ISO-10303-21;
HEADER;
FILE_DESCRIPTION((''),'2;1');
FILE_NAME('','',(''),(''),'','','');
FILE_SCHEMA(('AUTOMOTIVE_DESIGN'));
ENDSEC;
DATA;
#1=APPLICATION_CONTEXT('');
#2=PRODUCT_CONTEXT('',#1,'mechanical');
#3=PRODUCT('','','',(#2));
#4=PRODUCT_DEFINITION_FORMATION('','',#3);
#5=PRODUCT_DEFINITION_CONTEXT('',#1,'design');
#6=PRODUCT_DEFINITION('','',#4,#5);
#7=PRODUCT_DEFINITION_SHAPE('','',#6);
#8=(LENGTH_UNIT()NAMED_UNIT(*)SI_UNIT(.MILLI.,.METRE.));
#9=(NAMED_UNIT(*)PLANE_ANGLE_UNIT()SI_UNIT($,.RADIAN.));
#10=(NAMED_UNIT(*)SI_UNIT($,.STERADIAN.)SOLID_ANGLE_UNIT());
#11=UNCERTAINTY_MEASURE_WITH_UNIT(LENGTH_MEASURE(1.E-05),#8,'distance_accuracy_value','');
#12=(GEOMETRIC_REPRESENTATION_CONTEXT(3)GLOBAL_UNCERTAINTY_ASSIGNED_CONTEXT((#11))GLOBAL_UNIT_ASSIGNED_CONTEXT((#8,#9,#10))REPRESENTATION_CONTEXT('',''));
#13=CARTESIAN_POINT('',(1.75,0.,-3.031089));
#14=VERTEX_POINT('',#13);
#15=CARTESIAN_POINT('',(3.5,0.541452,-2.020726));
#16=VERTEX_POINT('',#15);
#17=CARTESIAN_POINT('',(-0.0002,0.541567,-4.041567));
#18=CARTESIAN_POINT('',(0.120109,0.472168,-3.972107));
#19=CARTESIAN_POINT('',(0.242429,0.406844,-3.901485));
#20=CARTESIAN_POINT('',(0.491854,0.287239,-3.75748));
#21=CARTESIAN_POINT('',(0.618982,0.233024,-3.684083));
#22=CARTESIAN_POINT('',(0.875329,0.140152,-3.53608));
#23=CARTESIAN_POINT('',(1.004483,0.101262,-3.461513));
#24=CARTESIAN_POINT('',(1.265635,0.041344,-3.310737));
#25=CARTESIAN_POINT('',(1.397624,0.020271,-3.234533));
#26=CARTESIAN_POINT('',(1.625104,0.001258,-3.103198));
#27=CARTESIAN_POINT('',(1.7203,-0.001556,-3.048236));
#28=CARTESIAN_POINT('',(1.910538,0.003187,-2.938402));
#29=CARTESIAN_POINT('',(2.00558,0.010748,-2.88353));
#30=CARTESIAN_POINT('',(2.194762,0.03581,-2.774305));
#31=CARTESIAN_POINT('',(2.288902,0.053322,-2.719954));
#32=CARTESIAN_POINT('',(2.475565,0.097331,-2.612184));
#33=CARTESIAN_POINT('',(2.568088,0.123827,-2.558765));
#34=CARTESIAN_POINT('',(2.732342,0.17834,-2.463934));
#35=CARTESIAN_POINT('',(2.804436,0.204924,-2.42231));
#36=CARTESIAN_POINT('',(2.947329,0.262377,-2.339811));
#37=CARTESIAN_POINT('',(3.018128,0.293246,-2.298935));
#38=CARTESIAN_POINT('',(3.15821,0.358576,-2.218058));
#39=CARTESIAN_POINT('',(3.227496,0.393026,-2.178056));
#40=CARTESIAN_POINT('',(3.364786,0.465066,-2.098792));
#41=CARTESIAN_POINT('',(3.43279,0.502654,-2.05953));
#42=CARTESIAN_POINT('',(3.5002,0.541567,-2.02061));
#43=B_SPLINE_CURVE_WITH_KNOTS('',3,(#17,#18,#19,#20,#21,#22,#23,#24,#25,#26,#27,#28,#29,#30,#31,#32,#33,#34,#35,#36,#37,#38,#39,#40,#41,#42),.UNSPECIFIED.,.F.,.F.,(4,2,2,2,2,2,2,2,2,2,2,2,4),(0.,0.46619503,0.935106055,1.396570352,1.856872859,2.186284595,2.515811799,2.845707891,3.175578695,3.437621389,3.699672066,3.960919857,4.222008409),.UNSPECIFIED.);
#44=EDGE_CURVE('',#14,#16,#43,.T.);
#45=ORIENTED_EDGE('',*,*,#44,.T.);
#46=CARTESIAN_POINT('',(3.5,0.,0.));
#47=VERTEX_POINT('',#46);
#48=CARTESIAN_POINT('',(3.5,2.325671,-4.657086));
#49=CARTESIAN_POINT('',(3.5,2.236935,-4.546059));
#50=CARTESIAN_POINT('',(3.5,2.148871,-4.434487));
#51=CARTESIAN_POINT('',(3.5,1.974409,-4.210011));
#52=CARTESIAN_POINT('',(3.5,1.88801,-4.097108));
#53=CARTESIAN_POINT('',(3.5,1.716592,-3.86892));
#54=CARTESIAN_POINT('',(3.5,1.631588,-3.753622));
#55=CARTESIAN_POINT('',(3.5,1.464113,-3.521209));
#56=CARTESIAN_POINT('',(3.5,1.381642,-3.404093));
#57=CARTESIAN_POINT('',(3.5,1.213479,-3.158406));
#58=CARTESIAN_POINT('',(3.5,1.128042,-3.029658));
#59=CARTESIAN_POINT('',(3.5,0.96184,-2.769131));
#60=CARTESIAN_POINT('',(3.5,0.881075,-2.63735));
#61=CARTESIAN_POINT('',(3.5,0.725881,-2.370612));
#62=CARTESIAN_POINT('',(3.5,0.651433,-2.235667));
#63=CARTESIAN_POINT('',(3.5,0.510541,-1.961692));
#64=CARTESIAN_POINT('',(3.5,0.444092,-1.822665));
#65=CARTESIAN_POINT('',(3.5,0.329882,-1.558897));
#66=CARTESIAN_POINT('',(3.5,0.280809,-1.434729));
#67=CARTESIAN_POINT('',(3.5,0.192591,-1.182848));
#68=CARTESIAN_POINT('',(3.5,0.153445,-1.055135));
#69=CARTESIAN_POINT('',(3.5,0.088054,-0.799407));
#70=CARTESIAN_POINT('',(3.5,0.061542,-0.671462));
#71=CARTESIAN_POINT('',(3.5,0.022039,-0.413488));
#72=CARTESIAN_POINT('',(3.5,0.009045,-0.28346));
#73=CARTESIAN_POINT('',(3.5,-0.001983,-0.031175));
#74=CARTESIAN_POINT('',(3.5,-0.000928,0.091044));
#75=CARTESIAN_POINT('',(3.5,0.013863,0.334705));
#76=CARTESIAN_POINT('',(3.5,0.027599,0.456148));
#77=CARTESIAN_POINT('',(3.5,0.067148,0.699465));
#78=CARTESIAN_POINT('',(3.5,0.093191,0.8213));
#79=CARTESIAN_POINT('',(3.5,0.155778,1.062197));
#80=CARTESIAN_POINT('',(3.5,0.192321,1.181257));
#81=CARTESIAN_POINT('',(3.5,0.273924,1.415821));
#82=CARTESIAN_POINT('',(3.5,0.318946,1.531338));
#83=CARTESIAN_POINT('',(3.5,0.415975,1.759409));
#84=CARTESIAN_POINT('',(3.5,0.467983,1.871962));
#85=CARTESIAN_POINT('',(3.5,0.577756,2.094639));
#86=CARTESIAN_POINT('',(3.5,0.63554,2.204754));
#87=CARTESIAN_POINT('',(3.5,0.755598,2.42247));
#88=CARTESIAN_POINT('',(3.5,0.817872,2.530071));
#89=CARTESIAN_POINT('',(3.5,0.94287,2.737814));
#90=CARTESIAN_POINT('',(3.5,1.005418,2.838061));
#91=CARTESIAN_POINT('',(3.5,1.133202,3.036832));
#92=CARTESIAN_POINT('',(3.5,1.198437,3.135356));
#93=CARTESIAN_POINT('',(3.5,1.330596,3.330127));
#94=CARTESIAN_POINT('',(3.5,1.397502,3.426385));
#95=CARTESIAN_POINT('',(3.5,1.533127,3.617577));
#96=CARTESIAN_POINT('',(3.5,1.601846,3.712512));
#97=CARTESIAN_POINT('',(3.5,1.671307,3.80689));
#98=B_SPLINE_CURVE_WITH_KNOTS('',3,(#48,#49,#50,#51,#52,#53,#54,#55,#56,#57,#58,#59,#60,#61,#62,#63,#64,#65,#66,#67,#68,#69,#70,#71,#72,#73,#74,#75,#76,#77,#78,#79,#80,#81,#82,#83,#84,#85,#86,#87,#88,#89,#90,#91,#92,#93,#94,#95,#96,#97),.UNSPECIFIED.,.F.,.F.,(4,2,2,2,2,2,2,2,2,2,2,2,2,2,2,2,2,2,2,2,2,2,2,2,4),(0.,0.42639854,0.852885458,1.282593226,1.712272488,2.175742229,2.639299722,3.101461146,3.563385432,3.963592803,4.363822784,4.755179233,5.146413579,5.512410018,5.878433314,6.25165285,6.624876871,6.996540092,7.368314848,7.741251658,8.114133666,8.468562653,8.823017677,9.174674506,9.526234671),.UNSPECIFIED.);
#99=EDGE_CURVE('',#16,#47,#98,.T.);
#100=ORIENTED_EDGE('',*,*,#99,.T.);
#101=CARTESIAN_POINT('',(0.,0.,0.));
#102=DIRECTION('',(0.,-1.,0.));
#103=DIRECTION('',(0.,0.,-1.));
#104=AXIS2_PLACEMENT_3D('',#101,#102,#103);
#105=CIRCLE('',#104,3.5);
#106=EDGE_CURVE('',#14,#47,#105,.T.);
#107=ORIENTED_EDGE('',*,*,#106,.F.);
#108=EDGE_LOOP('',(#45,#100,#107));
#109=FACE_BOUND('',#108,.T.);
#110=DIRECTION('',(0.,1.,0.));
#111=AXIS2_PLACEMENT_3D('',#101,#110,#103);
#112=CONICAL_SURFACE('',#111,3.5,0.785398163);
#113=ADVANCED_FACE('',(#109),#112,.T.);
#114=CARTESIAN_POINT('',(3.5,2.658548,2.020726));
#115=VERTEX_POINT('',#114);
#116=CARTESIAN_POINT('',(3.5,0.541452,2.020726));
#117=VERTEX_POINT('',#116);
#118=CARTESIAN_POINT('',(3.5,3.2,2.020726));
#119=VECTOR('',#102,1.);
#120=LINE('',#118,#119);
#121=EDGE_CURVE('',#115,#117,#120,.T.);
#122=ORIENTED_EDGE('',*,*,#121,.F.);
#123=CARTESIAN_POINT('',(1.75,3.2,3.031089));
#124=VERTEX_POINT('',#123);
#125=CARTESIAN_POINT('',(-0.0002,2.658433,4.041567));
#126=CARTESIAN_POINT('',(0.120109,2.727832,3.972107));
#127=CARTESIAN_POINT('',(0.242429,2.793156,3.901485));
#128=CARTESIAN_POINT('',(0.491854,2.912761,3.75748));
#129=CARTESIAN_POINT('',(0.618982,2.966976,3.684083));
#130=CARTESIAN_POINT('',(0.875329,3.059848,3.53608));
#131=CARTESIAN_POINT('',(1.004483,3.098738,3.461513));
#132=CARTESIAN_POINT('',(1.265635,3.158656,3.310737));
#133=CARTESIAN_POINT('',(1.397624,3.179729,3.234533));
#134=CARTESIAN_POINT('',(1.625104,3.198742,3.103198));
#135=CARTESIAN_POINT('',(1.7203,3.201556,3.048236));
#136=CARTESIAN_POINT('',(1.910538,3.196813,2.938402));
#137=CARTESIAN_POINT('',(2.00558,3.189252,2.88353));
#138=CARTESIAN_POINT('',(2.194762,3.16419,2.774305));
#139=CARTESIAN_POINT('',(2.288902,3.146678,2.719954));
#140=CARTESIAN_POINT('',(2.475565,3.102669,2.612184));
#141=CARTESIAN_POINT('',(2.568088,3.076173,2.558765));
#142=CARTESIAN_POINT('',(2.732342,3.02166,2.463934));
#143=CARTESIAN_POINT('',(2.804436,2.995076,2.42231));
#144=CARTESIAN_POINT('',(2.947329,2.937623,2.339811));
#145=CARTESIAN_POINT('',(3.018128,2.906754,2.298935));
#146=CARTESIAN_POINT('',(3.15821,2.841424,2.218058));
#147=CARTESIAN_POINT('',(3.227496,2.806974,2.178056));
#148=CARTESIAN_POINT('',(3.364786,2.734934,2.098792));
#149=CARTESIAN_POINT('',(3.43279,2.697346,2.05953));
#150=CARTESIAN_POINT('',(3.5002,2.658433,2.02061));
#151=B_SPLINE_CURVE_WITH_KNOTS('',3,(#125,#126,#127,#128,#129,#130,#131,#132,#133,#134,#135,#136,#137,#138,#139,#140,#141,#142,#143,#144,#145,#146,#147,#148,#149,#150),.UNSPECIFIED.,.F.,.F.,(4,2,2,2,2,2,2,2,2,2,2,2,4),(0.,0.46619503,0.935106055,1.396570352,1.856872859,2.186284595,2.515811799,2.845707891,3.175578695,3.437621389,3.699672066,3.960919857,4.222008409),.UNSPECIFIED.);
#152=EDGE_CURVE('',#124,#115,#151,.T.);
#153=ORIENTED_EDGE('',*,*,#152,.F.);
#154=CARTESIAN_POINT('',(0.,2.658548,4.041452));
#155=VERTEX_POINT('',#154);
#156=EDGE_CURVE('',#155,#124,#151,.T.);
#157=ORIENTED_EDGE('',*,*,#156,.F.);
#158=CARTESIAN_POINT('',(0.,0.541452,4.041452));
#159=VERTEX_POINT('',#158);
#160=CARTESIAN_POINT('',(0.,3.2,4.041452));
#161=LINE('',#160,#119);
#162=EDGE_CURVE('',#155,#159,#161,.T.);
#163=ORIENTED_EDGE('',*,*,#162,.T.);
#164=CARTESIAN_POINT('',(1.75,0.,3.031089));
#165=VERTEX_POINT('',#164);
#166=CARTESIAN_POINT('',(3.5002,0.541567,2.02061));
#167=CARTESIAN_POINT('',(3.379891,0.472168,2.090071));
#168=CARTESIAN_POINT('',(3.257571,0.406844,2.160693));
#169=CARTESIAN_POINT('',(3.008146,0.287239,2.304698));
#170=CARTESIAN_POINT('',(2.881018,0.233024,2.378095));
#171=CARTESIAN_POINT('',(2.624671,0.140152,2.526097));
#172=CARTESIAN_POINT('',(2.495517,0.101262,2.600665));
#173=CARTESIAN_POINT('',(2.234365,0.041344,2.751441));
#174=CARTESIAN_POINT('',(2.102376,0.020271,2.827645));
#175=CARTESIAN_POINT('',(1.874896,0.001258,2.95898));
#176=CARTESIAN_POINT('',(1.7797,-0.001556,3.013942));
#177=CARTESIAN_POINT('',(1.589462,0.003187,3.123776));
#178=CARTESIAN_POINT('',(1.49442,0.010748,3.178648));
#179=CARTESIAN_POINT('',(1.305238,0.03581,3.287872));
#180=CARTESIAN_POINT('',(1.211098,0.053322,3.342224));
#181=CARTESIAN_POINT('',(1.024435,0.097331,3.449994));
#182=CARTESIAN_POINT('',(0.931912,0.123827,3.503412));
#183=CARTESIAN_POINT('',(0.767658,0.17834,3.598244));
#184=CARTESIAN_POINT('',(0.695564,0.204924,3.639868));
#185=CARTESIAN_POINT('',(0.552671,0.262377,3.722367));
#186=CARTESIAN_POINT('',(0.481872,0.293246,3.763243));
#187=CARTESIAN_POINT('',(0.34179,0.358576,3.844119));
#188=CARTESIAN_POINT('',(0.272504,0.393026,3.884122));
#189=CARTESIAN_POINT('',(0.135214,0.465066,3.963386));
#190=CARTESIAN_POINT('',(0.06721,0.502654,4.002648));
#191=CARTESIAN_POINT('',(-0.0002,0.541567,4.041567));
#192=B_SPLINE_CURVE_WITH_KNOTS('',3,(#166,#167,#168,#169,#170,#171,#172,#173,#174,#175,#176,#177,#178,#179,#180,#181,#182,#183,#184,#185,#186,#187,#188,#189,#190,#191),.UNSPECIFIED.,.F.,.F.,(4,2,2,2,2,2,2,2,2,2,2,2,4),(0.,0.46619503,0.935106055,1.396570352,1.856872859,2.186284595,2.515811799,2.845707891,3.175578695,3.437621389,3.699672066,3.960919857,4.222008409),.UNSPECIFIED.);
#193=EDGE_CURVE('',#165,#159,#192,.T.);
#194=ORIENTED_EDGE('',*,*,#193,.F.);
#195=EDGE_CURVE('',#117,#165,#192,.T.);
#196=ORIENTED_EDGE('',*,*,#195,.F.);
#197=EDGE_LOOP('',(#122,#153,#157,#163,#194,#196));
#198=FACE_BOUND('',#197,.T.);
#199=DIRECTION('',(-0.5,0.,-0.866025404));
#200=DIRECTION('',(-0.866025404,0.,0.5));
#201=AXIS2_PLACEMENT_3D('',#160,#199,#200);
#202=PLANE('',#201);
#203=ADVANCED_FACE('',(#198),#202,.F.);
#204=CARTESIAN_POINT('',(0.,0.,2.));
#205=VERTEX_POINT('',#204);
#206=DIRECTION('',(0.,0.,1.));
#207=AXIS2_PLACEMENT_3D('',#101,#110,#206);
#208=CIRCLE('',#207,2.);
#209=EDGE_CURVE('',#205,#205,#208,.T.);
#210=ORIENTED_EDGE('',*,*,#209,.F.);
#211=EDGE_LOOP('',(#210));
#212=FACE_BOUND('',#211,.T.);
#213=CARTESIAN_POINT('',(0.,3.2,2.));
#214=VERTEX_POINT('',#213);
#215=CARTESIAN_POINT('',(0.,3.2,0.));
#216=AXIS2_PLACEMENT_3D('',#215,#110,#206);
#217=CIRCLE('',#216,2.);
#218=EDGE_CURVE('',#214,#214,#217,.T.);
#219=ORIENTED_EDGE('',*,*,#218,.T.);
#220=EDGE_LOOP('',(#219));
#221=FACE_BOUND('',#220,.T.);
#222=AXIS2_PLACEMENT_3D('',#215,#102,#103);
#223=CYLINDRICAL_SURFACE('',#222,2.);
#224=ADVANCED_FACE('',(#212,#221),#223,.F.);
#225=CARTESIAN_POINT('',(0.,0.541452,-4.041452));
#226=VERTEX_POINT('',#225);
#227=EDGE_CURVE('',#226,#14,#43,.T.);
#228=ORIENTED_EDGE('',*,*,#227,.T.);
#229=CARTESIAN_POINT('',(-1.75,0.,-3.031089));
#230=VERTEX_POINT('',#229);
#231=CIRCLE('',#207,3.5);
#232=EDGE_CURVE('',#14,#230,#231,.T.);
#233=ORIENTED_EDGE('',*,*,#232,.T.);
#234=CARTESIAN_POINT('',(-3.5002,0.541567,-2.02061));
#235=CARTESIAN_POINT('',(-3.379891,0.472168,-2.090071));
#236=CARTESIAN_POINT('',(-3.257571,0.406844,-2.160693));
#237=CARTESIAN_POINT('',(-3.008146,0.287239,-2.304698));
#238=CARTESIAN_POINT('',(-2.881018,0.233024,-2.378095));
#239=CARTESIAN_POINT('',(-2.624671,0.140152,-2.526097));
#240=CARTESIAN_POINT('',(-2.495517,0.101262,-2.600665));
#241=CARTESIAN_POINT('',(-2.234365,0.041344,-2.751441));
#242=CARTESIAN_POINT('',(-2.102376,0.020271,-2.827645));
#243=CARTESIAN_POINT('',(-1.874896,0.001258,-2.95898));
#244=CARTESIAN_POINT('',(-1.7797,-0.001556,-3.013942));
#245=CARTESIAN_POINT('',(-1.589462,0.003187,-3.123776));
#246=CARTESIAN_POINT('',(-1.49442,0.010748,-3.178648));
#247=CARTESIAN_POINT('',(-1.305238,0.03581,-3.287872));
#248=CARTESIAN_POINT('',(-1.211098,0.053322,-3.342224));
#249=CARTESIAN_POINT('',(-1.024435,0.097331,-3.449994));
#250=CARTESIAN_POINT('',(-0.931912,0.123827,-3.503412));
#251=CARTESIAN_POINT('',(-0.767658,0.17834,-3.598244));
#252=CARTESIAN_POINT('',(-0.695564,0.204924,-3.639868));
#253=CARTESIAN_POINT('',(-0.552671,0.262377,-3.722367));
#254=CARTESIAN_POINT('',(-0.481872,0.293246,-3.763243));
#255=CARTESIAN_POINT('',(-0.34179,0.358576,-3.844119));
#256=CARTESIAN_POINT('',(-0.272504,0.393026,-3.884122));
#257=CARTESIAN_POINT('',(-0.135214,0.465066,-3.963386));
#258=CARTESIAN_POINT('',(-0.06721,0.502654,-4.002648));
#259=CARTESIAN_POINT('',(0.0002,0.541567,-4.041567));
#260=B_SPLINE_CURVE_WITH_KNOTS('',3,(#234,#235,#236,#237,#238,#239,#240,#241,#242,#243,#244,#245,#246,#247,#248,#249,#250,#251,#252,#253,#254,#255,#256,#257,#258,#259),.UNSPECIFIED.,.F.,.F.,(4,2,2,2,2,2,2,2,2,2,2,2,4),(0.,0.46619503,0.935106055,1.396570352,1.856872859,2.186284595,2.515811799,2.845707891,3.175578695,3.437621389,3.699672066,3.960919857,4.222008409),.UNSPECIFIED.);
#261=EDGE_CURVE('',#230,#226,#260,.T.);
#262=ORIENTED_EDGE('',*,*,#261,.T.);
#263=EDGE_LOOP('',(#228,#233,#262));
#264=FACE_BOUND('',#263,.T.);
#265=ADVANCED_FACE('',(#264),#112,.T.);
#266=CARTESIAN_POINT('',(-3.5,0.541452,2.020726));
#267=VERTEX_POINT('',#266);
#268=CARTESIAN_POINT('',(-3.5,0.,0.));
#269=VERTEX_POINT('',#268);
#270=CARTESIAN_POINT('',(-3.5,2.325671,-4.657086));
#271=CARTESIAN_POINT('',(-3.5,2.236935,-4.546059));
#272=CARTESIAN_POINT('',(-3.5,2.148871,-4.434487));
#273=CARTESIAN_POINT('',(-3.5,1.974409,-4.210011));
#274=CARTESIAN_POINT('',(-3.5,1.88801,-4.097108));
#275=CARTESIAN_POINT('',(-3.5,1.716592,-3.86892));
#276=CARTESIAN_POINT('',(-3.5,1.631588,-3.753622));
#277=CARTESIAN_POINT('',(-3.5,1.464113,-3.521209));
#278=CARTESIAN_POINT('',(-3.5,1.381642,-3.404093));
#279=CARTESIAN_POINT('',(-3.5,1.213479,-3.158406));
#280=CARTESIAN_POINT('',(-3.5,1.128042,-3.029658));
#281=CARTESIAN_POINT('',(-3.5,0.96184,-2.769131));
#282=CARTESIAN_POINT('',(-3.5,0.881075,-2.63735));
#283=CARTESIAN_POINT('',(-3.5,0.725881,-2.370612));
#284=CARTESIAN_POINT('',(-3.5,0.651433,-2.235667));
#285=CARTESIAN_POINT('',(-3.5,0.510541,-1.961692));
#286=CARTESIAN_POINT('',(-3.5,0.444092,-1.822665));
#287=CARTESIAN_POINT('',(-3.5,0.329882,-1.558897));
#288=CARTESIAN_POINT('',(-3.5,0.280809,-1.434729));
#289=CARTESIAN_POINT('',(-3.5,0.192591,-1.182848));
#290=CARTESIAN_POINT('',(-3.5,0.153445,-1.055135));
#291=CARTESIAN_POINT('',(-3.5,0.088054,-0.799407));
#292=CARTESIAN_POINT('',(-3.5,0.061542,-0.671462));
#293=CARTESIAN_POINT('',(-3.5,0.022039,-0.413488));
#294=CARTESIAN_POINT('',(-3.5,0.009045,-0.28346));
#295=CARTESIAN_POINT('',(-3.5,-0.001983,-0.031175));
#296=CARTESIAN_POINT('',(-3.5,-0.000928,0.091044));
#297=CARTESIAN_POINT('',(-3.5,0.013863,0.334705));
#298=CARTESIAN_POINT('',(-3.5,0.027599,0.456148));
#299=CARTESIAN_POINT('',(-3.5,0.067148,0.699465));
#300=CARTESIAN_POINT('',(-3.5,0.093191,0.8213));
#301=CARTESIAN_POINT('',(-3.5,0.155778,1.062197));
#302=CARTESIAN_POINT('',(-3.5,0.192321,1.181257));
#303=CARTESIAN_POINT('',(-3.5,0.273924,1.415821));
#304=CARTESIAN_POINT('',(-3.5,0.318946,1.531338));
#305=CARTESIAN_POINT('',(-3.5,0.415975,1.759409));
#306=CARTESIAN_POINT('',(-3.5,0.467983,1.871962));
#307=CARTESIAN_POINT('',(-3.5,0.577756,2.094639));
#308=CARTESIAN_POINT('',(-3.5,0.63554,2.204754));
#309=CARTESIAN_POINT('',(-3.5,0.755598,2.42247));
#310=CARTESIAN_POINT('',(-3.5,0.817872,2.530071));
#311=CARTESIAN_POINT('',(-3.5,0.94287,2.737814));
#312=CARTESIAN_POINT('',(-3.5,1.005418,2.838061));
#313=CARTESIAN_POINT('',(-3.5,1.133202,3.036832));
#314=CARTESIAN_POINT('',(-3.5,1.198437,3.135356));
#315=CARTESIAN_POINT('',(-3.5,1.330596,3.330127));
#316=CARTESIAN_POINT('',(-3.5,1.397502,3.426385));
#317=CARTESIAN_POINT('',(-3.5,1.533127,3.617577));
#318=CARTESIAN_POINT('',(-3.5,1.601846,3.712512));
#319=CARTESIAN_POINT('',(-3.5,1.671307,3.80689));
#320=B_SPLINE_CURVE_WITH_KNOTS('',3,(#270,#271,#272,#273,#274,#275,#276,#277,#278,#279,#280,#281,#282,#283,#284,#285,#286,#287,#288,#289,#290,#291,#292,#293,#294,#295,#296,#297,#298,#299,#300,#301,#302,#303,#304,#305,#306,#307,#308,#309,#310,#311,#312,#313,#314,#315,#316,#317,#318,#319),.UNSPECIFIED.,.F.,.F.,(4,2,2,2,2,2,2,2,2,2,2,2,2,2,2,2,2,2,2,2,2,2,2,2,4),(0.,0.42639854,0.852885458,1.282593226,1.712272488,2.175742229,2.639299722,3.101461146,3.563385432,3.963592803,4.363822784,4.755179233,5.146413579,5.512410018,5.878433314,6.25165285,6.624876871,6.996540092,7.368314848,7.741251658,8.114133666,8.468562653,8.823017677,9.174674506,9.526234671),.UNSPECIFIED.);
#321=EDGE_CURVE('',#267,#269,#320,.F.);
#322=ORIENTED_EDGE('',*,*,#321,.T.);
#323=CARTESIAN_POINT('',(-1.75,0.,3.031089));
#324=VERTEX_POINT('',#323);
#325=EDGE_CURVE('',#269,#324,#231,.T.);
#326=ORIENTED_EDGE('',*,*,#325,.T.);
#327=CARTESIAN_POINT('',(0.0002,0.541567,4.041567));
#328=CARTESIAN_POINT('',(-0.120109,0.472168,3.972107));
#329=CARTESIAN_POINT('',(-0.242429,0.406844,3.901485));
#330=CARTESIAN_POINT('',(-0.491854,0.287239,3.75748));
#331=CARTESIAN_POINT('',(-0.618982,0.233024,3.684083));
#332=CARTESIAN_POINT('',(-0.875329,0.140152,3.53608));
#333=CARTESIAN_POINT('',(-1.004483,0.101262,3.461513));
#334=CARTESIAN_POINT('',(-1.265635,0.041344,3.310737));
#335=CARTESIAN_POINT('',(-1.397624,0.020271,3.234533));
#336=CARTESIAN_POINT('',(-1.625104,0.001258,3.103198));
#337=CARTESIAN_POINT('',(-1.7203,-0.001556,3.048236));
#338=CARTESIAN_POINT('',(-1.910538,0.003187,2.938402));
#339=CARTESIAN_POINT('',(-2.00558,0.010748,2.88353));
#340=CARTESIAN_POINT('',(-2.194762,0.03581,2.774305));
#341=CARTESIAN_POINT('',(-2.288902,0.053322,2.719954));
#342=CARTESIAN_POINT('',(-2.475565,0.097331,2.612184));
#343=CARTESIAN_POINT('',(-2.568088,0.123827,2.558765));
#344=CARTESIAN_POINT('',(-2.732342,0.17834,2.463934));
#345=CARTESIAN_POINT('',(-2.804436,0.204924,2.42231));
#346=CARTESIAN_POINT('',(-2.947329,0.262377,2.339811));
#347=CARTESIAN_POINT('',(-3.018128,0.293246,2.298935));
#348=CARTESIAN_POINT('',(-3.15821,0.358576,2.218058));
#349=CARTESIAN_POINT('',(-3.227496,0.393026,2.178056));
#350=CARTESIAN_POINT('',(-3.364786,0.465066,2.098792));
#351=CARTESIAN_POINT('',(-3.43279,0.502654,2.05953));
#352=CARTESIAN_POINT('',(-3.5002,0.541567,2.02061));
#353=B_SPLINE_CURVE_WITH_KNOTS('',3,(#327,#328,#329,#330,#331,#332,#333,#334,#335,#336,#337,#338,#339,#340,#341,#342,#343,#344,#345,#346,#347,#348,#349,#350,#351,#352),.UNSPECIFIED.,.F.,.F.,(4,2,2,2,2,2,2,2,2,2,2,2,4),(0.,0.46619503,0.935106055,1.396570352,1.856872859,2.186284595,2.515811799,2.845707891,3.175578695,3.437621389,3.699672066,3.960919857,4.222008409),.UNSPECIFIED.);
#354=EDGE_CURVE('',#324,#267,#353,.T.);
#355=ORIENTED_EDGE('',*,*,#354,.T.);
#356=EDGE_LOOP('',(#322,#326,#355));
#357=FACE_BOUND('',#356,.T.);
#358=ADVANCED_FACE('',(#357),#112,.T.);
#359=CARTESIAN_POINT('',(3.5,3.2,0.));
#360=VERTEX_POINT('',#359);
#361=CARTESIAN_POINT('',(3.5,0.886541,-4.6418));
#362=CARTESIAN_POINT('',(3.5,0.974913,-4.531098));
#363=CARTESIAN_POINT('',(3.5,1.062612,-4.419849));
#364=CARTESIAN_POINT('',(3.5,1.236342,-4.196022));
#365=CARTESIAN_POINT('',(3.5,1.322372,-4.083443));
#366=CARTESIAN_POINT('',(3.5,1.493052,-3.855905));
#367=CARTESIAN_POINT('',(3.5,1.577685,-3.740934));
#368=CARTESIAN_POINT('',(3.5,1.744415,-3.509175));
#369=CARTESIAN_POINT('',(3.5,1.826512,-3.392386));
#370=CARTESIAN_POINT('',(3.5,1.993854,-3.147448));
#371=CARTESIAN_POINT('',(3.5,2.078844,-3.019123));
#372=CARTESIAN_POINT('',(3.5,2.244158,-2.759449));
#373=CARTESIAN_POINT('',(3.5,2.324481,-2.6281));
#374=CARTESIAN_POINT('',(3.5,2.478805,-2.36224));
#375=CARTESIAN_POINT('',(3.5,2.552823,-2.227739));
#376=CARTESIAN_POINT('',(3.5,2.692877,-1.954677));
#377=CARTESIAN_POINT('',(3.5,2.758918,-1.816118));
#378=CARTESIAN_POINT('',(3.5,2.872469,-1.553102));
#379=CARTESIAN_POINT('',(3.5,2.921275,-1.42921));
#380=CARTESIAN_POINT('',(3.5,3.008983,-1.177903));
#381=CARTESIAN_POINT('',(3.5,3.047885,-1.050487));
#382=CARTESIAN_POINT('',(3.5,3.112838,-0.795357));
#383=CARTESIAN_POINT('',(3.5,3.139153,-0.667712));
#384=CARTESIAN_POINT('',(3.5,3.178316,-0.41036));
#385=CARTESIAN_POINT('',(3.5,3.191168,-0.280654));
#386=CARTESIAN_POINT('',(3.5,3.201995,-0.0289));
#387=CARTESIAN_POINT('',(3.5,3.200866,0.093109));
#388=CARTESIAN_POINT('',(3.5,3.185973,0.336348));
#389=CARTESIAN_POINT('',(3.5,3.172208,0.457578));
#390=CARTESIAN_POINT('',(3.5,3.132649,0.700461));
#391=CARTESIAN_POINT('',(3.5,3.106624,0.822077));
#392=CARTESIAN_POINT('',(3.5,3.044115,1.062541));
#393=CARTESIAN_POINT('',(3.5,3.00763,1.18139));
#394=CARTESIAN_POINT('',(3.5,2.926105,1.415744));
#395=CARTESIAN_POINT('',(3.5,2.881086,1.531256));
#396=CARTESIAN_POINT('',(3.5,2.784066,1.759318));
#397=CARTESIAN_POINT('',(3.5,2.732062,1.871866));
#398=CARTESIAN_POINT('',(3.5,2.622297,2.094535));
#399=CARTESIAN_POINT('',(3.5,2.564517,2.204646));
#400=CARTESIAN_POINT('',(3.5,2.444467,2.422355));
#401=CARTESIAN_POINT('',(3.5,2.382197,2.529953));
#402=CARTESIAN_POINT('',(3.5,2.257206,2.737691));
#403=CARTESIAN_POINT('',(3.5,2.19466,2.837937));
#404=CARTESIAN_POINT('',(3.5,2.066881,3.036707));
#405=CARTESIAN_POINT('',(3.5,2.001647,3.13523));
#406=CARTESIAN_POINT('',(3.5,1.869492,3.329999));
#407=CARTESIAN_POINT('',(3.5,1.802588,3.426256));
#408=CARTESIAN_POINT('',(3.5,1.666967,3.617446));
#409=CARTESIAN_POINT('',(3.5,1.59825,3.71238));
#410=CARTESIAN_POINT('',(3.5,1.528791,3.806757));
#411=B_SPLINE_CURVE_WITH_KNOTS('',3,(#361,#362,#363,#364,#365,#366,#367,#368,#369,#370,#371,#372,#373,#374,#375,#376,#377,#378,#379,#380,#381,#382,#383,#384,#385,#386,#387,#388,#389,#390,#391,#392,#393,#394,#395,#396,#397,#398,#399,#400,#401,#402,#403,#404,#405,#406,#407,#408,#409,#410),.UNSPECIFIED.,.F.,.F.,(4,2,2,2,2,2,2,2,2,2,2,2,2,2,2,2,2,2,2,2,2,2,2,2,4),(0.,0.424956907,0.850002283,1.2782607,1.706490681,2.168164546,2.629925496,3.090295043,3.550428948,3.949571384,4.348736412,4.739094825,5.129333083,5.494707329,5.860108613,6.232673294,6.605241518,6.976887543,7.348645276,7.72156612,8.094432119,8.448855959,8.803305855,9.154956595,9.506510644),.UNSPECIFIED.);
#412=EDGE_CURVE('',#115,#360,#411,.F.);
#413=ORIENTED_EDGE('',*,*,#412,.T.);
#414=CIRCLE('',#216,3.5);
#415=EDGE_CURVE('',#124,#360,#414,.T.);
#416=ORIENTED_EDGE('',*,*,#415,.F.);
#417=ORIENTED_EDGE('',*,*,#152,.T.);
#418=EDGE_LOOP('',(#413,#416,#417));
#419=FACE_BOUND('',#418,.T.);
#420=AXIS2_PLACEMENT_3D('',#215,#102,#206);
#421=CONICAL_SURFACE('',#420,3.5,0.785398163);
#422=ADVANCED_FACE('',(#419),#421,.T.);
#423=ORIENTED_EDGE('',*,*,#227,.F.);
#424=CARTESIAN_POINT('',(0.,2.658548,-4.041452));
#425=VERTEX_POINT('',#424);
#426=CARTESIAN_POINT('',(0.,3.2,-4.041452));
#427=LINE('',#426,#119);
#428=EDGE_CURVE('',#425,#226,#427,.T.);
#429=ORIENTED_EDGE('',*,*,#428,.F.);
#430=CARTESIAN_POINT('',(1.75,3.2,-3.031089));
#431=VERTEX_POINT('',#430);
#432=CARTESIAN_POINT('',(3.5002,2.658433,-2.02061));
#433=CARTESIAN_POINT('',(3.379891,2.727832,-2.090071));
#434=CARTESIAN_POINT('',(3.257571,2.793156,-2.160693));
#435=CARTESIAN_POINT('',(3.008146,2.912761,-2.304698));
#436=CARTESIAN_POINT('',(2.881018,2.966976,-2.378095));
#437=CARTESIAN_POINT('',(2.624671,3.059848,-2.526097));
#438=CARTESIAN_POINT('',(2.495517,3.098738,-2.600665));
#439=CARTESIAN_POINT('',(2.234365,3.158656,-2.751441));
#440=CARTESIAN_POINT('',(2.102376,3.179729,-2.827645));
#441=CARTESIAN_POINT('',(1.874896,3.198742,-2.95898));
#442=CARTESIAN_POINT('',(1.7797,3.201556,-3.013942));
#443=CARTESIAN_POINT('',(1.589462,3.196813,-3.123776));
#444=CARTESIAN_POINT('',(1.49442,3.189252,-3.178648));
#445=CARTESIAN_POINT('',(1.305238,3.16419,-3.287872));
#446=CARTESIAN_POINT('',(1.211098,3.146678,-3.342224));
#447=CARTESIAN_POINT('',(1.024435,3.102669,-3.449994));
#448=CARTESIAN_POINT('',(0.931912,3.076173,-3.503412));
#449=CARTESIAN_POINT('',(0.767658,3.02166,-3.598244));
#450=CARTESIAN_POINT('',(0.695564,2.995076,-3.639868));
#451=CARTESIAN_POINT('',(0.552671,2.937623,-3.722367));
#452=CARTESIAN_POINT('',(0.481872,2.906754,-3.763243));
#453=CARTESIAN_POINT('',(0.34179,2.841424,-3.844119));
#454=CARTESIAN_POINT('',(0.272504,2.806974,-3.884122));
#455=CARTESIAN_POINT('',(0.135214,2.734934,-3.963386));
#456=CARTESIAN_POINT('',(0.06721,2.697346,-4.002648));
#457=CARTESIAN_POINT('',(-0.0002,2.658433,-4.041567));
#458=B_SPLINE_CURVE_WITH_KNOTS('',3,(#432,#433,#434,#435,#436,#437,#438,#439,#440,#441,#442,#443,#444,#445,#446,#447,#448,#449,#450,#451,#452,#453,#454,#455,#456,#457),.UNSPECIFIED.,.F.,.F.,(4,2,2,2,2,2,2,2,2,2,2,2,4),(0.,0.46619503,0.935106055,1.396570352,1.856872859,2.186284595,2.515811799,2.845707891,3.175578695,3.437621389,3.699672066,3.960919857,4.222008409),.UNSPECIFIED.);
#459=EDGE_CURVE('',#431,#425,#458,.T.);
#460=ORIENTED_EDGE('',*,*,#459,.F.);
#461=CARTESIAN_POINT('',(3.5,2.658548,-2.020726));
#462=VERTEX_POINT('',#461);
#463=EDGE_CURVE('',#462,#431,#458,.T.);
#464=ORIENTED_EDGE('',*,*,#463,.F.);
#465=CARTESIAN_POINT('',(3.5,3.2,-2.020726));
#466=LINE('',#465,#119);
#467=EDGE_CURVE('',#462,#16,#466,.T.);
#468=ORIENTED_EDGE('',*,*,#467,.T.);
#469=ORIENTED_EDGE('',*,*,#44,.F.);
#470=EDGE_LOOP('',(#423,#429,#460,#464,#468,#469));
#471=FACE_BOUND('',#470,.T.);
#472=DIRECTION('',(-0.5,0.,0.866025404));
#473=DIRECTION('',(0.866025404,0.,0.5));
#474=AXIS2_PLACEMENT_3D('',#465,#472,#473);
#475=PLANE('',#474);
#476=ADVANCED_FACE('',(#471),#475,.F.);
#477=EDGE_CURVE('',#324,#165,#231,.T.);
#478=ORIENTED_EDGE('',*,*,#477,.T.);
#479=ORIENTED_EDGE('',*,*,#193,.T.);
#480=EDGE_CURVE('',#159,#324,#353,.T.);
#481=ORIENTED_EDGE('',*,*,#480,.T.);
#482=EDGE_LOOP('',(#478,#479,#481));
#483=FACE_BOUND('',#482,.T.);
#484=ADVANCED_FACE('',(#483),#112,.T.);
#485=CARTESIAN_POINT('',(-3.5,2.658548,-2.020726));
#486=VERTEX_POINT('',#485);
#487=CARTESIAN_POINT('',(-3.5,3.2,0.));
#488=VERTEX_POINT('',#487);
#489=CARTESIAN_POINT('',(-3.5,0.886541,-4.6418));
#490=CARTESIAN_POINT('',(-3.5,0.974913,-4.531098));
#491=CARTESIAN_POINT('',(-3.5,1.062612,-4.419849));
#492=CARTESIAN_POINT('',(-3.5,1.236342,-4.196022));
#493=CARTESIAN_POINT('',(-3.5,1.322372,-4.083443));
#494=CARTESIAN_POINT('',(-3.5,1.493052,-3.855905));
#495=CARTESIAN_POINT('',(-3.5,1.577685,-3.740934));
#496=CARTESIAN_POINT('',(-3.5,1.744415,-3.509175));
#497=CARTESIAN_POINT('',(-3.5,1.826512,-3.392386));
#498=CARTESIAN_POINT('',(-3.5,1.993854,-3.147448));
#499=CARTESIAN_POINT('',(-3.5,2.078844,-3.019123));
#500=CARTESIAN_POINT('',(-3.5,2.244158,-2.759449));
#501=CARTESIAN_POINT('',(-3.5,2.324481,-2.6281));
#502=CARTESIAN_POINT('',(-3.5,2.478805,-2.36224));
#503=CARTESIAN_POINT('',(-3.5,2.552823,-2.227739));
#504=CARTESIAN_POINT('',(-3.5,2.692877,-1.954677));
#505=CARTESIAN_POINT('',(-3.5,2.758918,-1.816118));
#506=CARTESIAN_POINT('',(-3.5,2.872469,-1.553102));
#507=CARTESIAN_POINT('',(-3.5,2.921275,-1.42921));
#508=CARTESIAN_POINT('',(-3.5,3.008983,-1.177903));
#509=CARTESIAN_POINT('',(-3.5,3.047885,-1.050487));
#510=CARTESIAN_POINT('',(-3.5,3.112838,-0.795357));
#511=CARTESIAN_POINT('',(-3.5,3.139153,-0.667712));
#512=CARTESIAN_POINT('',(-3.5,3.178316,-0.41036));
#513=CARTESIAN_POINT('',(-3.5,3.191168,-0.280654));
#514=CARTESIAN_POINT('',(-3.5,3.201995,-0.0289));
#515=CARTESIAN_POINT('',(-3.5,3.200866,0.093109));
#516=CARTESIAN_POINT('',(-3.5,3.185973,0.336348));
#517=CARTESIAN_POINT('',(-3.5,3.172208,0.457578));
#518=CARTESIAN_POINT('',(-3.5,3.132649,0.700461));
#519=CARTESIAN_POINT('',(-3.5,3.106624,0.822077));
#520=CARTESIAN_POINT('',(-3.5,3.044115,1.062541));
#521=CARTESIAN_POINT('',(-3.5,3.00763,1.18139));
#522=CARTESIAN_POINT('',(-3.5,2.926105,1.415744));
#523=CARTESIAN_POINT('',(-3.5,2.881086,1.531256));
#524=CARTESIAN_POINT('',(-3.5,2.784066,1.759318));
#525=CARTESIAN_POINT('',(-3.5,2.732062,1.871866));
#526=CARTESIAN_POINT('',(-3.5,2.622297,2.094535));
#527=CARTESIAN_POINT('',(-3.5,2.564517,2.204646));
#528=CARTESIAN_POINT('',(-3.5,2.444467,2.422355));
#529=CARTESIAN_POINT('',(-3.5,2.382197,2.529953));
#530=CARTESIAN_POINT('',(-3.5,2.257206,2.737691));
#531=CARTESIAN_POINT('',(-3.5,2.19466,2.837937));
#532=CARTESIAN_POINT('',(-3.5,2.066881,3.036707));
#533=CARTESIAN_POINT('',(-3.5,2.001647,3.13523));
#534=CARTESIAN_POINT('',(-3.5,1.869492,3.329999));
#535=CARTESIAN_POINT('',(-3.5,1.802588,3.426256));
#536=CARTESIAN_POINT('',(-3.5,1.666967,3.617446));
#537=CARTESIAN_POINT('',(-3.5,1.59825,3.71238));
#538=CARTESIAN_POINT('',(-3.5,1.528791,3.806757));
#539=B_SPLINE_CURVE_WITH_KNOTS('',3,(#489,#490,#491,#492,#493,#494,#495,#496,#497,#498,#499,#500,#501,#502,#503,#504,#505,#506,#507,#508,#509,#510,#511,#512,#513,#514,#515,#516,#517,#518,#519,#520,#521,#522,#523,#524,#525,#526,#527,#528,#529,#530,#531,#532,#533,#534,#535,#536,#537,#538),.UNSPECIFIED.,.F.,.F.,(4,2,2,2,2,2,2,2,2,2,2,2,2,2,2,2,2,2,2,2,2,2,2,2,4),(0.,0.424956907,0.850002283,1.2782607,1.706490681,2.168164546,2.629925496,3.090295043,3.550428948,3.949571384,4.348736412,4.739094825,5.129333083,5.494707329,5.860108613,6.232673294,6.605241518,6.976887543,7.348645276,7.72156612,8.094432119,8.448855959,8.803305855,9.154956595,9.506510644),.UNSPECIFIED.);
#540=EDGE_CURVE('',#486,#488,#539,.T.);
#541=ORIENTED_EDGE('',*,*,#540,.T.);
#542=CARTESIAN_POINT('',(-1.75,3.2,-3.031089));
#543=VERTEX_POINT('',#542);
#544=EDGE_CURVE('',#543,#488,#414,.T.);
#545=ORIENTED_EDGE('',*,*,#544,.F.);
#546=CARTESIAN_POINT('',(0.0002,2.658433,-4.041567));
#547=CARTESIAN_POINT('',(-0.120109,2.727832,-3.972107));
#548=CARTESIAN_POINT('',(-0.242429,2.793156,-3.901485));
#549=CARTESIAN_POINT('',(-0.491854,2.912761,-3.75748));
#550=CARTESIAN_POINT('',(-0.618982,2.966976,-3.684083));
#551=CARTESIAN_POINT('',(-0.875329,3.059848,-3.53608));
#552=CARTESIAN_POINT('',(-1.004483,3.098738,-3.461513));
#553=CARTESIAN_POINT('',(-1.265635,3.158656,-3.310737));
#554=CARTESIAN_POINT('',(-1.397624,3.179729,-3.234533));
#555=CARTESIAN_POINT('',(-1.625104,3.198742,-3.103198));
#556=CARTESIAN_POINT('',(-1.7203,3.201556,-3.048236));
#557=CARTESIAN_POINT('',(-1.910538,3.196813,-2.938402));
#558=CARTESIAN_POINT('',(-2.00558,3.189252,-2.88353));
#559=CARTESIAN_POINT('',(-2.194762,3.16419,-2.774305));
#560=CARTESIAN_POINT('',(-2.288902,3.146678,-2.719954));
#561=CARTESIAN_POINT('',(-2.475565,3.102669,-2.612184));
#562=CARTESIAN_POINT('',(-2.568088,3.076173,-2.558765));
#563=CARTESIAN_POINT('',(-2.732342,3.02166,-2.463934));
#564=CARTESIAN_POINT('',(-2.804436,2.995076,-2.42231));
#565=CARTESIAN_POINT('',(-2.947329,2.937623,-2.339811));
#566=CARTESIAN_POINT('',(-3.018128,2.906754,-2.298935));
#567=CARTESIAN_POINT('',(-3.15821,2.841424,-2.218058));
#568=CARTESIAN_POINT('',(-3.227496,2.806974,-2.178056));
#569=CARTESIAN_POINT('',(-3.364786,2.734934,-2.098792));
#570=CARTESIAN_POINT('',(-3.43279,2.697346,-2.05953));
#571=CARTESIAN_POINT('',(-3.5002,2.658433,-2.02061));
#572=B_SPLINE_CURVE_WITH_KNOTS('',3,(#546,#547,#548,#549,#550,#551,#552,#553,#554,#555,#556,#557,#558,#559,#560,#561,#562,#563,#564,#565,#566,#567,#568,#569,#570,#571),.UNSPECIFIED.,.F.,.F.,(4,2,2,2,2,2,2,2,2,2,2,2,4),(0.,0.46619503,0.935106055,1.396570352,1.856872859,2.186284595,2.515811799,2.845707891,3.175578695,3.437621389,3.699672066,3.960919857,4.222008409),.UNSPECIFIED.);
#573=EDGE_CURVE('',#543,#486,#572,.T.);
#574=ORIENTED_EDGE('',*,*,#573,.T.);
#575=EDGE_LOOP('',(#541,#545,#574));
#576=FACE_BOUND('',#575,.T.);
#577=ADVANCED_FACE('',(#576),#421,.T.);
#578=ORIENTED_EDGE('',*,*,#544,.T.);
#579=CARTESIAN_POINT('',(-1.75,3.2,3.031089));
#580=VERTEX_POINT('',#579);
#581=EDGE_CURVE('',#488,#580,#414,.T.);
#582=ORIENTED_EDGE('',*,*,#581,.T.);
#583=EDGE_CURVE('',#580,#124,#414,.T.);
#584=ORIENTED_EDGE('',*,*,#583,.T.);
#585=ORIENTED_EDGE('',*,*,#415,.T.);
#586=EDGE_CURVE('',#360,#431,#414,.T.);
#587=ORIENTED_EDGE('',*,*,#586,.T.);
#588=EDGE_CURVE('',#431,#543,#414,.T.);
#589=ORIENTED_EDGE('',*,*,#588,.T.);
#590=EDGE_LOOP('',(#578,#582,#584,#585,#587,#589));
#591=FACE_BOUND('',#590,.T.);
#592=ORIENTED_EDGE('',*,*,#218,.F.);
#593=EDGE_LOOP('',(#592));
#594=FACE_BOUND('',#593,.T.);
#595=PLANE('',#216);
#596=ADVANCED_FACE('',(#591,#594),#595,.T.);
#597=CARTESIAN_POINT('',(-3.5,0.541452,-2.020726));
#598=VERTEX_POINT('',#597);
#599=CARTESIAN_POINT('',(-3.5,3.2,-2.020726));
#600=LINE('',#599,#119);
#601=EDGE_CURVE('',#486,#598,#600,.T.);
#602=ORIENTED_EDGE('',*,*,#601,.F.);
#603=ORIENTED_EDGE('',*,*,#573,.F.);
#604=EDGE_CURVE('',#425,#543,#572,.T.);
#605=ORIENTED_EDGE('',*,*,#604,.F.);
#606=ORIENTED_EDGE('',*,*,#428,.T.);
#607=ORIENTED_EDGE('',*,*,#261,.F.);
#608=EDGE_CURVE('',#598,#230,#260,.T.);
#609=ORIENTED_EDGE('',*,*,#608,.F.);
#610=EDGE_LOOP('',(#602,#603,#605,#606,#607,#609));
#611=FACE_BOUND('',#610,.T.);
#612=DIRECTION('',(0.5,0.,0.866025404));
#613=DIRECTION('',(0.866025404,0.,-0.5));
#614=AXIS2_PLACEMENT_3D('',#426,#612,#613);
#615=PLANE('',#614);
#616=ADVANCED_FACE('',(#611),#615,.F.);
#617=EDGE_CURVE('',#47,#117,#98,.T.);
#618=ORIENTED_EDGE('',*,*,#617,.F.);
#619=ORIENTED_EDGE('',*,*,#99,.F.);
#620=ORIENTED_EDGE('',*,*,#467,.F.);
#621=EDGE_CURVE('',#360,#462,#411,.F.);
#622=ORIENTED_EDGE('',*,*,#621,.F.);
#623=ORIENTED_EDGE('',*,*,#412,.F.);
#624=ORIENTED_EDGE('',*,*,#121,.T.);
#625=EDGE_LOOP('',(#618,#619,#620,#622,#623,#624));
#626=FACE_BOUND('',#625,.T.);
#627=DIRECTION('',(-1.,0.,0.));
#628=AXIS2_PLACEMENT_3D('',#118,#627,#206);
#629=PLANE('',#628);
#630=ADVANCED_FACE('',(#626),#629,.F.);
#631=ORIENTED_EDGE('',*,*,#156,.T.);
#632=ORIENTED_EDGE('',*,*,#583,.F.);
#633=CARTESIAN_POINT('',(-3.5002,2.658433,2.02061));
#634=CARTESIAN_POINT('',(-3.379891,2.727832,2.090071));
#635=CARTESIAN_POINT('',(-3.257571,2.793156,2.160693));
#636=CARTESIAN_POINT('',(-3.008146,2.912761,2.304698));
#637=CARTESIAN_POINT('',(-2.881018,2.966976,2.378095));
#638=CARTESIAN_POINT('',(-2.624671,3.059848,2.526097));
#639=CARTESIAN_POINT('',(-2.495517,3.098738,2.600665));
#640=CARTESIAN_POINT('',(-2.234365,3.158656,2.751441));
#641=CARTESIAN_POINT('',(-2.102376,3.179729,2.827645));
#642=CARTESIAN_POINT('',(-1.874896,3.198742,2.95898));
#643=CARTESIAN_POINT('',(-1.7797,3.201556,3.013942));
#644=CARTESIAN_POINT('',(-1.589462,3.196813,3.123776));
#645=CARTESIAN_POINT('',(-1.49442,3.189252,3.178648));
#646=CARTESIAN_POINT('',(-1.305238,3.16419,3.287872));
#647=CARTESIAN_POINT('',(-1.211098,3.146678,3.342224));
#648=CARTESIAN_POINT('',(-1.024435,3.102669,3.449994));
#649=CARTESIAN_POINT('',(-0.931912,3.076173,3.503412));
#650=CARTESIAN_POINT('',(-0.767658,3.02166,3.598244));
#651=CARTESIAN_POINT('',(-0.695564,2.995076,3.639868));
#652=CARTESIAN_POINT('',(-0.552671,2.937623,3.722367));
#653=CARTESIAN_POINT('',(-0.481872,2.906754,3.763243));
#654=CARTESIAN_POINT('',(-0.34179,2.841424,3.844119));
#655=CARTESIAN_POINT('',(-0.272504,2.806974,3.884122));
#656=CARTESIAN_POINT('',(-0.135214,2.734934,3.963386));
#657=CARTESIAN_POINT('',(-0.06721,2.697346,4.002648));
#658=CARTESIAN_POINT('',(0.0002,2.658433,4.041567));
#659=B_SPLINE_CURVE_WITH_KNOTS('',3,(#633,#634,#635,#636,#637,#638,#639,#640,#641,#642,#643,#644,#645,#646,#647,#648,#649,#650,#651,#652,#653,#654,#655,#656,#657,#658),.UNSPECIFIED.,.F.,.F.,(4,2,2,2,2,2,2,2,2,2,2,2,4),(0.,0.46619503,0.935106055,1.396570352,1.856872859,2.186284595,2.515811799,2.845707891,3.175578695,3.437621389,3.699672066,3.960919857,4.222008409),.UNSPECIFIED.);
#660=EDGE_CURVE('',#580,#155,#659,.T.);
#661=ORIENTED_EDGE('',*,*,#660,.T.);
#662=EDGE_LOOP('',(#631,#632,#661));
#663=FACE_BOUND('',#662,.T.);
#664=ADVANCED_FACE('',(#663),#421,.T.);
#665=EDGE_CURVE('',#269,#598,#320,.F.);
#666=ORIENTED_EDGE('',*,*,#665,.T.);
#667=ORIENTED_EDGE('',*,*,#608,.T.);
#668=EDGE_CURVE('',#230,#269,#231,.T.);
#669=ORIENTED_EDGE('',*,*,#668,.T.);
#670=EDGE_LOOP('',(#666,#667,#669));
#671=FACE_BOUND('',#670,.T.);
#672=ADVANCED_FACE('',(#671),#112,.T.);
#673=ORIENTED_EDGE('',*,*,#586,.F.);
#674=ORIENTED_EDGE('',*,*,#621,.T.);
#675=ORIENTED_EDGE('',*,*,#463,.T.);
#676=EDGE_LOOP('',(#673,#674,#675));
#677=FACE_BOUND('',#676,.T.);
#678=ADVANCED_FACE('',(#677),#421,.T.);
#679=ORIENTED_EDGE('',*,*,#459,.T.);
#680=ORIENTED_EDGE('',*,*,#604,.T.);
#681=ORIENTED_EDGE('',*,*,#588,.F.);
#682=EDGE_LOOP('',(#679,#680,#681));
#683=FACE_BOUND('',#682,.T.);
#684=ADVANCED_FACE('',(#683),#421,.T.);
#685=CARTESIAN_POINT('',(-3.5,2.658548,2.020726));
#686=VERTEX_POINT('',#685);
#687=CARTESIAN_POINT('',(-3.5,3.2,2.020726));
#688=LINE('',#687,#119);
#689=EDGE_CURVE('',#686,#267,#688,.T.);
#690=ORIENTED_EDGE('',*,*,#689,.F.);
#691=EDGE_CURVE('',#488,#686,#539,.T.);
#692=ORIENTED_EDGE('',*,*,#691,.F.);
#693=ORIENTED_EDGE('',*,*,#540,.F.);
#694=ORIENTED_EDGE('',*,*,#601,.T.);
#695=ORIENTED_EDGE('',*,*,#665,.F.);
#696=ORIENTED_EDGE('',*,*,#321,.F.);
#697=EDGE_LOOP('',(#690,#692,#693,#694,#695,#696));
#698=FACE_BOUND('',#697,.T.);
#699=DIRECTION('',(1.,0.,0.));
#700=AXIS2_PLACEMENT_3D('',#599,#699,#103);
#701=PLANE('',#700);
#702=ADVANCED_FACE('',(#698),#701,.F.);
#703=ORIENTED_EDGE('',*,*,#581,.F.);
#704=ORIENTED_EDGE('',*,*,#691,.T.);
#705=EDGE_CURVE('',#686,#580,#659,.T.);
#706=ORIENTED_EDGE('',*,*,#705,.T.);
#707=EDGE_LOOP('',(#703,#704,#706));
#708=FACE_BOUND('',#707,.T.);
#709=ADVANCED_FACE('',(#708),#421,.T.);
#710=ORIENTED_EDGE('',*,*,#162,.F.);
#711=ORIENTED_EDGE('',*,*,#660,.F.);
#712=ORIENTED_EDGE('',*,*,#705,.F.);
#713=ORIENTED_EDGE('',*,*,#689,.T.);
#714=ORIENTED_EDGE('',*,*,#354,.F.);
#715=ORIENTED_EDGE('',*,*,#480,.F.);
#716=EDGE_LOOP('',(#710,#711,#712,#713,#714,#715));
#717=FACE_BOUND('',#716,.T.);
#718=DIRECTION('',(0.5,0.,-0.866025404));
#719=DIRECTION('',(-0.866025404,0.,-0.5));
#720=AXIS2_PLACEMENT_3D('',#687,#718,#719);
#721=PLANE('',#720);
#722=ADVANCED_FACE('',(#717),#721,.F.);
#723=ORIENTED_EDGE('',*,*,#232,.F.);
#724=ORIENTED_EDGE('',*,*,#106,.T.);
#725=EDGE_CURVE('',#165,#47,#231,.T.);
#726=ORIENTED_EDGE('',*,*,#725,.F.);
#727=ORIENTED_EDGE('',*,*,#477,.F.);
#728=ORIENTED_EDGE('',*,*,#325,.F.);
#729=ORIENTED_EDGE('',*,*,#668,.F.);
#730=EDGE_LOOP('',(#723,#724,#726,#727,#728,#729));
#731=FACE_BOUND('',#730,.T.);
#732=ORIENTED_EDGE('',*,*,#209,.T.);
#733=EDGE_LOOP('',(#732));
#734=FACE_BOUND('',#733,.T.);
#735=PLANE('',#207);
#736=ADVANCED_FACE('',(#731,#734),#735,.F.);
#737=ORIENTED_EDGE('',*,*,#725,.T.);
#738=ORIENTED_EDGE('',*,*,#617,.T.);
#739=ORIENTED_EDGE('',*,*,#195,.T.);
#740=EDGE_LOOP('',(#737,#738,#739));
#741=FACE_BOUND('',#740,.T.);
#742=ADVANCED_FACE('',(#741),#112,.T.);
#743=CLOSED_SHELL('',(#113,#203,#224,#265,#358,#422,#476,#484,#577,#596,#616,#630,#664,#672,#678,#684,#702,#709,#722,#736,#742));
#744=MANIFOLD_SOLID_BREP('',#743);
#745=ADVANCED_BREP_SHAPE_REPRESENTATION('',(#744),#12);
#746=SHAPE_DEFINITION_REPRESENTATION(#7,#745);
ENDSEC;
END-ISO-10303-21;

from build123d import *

# Parameters (mm, degrees)
SKETCH1_R           = 2
BOSS_EXTRUDE1_DEPTH = 3.2
SKETCH2_OUTSIDE_W   = 19.632
SKETCH2_OUTSIDE_H   = 20.714
SKETCH2_OUTSIDE_R   = 3.5
CUT_EXTRUDE1_DEPTH  = 4.2
CUT_EXTRUDE1_TAPER  = 45
SKETCH3_OUTSIDE_W   = 19.632
SKETCH3_OUTSIDE_H   = 20.714
SKETCH3_OUTSIDE_R   = 3.5
CUT_EXTRUDE2_DEPTH  = 4.2
CUT_EXTRUDE2_TAPER  = 45


with BuildPart() as part:
    # Sketch1 → Boss-Extrude1 (new body)
    with BuildSketch(Plane(origin=(0, 0, 0), x_dir=(1, 0, 0), z_dir=(0, 1, 0))):
        Polygon((0, 4.041451884), (-3.5, 2.020725942), (-3.5, -2.020725942), (0, -4.041451884), (3.5, -2.020725942), (3.5, 2.020725942), align=None)
        Circle(SKETCH1_R, mode=Mode.SUBTRACT)
    extrude(amount=BOSS_EXTRUDE1_DEPTH)

    # Sketch2 outside → Cut-Extrude1 (cut, through all)
    with BuildSketch(Plane(origin=(0, 3.2, 0), x_dir=(1, 0, 0), z_dir=(0, 1, 0))):
        Rectangle(SKETCH2_OUTSIDE_W, SKETCH2_OUTSIDE_H)
        Circle(SKETCH2_OUTSIDE_R, mode=Mode.SUBTRACT)
    extrude(amount=-CUT_EXTRUDE1_DEPTH, taper=CUT_EXTRUDE1_TAPER, mode=Mode.SUBTRACT)

    # Sketch3 outside → Cut-Extrude2 (cut, through all)
    with BuildSketch(Plane.XZ):
        Rectangle(SKETCH3_OUTSIDE_W, SKETCH3_OUTSIDE_H)
        Circle(SKETCH3_OUTSIDE_R, mode=Mode.SUBTRACT)
    extrude(amount=-CUT_EXTRUDE2_DEPTH, taper=CUT_EXTRUDE2_TAPER, mode=Mode.SUBTRACT)


solid = part.part
